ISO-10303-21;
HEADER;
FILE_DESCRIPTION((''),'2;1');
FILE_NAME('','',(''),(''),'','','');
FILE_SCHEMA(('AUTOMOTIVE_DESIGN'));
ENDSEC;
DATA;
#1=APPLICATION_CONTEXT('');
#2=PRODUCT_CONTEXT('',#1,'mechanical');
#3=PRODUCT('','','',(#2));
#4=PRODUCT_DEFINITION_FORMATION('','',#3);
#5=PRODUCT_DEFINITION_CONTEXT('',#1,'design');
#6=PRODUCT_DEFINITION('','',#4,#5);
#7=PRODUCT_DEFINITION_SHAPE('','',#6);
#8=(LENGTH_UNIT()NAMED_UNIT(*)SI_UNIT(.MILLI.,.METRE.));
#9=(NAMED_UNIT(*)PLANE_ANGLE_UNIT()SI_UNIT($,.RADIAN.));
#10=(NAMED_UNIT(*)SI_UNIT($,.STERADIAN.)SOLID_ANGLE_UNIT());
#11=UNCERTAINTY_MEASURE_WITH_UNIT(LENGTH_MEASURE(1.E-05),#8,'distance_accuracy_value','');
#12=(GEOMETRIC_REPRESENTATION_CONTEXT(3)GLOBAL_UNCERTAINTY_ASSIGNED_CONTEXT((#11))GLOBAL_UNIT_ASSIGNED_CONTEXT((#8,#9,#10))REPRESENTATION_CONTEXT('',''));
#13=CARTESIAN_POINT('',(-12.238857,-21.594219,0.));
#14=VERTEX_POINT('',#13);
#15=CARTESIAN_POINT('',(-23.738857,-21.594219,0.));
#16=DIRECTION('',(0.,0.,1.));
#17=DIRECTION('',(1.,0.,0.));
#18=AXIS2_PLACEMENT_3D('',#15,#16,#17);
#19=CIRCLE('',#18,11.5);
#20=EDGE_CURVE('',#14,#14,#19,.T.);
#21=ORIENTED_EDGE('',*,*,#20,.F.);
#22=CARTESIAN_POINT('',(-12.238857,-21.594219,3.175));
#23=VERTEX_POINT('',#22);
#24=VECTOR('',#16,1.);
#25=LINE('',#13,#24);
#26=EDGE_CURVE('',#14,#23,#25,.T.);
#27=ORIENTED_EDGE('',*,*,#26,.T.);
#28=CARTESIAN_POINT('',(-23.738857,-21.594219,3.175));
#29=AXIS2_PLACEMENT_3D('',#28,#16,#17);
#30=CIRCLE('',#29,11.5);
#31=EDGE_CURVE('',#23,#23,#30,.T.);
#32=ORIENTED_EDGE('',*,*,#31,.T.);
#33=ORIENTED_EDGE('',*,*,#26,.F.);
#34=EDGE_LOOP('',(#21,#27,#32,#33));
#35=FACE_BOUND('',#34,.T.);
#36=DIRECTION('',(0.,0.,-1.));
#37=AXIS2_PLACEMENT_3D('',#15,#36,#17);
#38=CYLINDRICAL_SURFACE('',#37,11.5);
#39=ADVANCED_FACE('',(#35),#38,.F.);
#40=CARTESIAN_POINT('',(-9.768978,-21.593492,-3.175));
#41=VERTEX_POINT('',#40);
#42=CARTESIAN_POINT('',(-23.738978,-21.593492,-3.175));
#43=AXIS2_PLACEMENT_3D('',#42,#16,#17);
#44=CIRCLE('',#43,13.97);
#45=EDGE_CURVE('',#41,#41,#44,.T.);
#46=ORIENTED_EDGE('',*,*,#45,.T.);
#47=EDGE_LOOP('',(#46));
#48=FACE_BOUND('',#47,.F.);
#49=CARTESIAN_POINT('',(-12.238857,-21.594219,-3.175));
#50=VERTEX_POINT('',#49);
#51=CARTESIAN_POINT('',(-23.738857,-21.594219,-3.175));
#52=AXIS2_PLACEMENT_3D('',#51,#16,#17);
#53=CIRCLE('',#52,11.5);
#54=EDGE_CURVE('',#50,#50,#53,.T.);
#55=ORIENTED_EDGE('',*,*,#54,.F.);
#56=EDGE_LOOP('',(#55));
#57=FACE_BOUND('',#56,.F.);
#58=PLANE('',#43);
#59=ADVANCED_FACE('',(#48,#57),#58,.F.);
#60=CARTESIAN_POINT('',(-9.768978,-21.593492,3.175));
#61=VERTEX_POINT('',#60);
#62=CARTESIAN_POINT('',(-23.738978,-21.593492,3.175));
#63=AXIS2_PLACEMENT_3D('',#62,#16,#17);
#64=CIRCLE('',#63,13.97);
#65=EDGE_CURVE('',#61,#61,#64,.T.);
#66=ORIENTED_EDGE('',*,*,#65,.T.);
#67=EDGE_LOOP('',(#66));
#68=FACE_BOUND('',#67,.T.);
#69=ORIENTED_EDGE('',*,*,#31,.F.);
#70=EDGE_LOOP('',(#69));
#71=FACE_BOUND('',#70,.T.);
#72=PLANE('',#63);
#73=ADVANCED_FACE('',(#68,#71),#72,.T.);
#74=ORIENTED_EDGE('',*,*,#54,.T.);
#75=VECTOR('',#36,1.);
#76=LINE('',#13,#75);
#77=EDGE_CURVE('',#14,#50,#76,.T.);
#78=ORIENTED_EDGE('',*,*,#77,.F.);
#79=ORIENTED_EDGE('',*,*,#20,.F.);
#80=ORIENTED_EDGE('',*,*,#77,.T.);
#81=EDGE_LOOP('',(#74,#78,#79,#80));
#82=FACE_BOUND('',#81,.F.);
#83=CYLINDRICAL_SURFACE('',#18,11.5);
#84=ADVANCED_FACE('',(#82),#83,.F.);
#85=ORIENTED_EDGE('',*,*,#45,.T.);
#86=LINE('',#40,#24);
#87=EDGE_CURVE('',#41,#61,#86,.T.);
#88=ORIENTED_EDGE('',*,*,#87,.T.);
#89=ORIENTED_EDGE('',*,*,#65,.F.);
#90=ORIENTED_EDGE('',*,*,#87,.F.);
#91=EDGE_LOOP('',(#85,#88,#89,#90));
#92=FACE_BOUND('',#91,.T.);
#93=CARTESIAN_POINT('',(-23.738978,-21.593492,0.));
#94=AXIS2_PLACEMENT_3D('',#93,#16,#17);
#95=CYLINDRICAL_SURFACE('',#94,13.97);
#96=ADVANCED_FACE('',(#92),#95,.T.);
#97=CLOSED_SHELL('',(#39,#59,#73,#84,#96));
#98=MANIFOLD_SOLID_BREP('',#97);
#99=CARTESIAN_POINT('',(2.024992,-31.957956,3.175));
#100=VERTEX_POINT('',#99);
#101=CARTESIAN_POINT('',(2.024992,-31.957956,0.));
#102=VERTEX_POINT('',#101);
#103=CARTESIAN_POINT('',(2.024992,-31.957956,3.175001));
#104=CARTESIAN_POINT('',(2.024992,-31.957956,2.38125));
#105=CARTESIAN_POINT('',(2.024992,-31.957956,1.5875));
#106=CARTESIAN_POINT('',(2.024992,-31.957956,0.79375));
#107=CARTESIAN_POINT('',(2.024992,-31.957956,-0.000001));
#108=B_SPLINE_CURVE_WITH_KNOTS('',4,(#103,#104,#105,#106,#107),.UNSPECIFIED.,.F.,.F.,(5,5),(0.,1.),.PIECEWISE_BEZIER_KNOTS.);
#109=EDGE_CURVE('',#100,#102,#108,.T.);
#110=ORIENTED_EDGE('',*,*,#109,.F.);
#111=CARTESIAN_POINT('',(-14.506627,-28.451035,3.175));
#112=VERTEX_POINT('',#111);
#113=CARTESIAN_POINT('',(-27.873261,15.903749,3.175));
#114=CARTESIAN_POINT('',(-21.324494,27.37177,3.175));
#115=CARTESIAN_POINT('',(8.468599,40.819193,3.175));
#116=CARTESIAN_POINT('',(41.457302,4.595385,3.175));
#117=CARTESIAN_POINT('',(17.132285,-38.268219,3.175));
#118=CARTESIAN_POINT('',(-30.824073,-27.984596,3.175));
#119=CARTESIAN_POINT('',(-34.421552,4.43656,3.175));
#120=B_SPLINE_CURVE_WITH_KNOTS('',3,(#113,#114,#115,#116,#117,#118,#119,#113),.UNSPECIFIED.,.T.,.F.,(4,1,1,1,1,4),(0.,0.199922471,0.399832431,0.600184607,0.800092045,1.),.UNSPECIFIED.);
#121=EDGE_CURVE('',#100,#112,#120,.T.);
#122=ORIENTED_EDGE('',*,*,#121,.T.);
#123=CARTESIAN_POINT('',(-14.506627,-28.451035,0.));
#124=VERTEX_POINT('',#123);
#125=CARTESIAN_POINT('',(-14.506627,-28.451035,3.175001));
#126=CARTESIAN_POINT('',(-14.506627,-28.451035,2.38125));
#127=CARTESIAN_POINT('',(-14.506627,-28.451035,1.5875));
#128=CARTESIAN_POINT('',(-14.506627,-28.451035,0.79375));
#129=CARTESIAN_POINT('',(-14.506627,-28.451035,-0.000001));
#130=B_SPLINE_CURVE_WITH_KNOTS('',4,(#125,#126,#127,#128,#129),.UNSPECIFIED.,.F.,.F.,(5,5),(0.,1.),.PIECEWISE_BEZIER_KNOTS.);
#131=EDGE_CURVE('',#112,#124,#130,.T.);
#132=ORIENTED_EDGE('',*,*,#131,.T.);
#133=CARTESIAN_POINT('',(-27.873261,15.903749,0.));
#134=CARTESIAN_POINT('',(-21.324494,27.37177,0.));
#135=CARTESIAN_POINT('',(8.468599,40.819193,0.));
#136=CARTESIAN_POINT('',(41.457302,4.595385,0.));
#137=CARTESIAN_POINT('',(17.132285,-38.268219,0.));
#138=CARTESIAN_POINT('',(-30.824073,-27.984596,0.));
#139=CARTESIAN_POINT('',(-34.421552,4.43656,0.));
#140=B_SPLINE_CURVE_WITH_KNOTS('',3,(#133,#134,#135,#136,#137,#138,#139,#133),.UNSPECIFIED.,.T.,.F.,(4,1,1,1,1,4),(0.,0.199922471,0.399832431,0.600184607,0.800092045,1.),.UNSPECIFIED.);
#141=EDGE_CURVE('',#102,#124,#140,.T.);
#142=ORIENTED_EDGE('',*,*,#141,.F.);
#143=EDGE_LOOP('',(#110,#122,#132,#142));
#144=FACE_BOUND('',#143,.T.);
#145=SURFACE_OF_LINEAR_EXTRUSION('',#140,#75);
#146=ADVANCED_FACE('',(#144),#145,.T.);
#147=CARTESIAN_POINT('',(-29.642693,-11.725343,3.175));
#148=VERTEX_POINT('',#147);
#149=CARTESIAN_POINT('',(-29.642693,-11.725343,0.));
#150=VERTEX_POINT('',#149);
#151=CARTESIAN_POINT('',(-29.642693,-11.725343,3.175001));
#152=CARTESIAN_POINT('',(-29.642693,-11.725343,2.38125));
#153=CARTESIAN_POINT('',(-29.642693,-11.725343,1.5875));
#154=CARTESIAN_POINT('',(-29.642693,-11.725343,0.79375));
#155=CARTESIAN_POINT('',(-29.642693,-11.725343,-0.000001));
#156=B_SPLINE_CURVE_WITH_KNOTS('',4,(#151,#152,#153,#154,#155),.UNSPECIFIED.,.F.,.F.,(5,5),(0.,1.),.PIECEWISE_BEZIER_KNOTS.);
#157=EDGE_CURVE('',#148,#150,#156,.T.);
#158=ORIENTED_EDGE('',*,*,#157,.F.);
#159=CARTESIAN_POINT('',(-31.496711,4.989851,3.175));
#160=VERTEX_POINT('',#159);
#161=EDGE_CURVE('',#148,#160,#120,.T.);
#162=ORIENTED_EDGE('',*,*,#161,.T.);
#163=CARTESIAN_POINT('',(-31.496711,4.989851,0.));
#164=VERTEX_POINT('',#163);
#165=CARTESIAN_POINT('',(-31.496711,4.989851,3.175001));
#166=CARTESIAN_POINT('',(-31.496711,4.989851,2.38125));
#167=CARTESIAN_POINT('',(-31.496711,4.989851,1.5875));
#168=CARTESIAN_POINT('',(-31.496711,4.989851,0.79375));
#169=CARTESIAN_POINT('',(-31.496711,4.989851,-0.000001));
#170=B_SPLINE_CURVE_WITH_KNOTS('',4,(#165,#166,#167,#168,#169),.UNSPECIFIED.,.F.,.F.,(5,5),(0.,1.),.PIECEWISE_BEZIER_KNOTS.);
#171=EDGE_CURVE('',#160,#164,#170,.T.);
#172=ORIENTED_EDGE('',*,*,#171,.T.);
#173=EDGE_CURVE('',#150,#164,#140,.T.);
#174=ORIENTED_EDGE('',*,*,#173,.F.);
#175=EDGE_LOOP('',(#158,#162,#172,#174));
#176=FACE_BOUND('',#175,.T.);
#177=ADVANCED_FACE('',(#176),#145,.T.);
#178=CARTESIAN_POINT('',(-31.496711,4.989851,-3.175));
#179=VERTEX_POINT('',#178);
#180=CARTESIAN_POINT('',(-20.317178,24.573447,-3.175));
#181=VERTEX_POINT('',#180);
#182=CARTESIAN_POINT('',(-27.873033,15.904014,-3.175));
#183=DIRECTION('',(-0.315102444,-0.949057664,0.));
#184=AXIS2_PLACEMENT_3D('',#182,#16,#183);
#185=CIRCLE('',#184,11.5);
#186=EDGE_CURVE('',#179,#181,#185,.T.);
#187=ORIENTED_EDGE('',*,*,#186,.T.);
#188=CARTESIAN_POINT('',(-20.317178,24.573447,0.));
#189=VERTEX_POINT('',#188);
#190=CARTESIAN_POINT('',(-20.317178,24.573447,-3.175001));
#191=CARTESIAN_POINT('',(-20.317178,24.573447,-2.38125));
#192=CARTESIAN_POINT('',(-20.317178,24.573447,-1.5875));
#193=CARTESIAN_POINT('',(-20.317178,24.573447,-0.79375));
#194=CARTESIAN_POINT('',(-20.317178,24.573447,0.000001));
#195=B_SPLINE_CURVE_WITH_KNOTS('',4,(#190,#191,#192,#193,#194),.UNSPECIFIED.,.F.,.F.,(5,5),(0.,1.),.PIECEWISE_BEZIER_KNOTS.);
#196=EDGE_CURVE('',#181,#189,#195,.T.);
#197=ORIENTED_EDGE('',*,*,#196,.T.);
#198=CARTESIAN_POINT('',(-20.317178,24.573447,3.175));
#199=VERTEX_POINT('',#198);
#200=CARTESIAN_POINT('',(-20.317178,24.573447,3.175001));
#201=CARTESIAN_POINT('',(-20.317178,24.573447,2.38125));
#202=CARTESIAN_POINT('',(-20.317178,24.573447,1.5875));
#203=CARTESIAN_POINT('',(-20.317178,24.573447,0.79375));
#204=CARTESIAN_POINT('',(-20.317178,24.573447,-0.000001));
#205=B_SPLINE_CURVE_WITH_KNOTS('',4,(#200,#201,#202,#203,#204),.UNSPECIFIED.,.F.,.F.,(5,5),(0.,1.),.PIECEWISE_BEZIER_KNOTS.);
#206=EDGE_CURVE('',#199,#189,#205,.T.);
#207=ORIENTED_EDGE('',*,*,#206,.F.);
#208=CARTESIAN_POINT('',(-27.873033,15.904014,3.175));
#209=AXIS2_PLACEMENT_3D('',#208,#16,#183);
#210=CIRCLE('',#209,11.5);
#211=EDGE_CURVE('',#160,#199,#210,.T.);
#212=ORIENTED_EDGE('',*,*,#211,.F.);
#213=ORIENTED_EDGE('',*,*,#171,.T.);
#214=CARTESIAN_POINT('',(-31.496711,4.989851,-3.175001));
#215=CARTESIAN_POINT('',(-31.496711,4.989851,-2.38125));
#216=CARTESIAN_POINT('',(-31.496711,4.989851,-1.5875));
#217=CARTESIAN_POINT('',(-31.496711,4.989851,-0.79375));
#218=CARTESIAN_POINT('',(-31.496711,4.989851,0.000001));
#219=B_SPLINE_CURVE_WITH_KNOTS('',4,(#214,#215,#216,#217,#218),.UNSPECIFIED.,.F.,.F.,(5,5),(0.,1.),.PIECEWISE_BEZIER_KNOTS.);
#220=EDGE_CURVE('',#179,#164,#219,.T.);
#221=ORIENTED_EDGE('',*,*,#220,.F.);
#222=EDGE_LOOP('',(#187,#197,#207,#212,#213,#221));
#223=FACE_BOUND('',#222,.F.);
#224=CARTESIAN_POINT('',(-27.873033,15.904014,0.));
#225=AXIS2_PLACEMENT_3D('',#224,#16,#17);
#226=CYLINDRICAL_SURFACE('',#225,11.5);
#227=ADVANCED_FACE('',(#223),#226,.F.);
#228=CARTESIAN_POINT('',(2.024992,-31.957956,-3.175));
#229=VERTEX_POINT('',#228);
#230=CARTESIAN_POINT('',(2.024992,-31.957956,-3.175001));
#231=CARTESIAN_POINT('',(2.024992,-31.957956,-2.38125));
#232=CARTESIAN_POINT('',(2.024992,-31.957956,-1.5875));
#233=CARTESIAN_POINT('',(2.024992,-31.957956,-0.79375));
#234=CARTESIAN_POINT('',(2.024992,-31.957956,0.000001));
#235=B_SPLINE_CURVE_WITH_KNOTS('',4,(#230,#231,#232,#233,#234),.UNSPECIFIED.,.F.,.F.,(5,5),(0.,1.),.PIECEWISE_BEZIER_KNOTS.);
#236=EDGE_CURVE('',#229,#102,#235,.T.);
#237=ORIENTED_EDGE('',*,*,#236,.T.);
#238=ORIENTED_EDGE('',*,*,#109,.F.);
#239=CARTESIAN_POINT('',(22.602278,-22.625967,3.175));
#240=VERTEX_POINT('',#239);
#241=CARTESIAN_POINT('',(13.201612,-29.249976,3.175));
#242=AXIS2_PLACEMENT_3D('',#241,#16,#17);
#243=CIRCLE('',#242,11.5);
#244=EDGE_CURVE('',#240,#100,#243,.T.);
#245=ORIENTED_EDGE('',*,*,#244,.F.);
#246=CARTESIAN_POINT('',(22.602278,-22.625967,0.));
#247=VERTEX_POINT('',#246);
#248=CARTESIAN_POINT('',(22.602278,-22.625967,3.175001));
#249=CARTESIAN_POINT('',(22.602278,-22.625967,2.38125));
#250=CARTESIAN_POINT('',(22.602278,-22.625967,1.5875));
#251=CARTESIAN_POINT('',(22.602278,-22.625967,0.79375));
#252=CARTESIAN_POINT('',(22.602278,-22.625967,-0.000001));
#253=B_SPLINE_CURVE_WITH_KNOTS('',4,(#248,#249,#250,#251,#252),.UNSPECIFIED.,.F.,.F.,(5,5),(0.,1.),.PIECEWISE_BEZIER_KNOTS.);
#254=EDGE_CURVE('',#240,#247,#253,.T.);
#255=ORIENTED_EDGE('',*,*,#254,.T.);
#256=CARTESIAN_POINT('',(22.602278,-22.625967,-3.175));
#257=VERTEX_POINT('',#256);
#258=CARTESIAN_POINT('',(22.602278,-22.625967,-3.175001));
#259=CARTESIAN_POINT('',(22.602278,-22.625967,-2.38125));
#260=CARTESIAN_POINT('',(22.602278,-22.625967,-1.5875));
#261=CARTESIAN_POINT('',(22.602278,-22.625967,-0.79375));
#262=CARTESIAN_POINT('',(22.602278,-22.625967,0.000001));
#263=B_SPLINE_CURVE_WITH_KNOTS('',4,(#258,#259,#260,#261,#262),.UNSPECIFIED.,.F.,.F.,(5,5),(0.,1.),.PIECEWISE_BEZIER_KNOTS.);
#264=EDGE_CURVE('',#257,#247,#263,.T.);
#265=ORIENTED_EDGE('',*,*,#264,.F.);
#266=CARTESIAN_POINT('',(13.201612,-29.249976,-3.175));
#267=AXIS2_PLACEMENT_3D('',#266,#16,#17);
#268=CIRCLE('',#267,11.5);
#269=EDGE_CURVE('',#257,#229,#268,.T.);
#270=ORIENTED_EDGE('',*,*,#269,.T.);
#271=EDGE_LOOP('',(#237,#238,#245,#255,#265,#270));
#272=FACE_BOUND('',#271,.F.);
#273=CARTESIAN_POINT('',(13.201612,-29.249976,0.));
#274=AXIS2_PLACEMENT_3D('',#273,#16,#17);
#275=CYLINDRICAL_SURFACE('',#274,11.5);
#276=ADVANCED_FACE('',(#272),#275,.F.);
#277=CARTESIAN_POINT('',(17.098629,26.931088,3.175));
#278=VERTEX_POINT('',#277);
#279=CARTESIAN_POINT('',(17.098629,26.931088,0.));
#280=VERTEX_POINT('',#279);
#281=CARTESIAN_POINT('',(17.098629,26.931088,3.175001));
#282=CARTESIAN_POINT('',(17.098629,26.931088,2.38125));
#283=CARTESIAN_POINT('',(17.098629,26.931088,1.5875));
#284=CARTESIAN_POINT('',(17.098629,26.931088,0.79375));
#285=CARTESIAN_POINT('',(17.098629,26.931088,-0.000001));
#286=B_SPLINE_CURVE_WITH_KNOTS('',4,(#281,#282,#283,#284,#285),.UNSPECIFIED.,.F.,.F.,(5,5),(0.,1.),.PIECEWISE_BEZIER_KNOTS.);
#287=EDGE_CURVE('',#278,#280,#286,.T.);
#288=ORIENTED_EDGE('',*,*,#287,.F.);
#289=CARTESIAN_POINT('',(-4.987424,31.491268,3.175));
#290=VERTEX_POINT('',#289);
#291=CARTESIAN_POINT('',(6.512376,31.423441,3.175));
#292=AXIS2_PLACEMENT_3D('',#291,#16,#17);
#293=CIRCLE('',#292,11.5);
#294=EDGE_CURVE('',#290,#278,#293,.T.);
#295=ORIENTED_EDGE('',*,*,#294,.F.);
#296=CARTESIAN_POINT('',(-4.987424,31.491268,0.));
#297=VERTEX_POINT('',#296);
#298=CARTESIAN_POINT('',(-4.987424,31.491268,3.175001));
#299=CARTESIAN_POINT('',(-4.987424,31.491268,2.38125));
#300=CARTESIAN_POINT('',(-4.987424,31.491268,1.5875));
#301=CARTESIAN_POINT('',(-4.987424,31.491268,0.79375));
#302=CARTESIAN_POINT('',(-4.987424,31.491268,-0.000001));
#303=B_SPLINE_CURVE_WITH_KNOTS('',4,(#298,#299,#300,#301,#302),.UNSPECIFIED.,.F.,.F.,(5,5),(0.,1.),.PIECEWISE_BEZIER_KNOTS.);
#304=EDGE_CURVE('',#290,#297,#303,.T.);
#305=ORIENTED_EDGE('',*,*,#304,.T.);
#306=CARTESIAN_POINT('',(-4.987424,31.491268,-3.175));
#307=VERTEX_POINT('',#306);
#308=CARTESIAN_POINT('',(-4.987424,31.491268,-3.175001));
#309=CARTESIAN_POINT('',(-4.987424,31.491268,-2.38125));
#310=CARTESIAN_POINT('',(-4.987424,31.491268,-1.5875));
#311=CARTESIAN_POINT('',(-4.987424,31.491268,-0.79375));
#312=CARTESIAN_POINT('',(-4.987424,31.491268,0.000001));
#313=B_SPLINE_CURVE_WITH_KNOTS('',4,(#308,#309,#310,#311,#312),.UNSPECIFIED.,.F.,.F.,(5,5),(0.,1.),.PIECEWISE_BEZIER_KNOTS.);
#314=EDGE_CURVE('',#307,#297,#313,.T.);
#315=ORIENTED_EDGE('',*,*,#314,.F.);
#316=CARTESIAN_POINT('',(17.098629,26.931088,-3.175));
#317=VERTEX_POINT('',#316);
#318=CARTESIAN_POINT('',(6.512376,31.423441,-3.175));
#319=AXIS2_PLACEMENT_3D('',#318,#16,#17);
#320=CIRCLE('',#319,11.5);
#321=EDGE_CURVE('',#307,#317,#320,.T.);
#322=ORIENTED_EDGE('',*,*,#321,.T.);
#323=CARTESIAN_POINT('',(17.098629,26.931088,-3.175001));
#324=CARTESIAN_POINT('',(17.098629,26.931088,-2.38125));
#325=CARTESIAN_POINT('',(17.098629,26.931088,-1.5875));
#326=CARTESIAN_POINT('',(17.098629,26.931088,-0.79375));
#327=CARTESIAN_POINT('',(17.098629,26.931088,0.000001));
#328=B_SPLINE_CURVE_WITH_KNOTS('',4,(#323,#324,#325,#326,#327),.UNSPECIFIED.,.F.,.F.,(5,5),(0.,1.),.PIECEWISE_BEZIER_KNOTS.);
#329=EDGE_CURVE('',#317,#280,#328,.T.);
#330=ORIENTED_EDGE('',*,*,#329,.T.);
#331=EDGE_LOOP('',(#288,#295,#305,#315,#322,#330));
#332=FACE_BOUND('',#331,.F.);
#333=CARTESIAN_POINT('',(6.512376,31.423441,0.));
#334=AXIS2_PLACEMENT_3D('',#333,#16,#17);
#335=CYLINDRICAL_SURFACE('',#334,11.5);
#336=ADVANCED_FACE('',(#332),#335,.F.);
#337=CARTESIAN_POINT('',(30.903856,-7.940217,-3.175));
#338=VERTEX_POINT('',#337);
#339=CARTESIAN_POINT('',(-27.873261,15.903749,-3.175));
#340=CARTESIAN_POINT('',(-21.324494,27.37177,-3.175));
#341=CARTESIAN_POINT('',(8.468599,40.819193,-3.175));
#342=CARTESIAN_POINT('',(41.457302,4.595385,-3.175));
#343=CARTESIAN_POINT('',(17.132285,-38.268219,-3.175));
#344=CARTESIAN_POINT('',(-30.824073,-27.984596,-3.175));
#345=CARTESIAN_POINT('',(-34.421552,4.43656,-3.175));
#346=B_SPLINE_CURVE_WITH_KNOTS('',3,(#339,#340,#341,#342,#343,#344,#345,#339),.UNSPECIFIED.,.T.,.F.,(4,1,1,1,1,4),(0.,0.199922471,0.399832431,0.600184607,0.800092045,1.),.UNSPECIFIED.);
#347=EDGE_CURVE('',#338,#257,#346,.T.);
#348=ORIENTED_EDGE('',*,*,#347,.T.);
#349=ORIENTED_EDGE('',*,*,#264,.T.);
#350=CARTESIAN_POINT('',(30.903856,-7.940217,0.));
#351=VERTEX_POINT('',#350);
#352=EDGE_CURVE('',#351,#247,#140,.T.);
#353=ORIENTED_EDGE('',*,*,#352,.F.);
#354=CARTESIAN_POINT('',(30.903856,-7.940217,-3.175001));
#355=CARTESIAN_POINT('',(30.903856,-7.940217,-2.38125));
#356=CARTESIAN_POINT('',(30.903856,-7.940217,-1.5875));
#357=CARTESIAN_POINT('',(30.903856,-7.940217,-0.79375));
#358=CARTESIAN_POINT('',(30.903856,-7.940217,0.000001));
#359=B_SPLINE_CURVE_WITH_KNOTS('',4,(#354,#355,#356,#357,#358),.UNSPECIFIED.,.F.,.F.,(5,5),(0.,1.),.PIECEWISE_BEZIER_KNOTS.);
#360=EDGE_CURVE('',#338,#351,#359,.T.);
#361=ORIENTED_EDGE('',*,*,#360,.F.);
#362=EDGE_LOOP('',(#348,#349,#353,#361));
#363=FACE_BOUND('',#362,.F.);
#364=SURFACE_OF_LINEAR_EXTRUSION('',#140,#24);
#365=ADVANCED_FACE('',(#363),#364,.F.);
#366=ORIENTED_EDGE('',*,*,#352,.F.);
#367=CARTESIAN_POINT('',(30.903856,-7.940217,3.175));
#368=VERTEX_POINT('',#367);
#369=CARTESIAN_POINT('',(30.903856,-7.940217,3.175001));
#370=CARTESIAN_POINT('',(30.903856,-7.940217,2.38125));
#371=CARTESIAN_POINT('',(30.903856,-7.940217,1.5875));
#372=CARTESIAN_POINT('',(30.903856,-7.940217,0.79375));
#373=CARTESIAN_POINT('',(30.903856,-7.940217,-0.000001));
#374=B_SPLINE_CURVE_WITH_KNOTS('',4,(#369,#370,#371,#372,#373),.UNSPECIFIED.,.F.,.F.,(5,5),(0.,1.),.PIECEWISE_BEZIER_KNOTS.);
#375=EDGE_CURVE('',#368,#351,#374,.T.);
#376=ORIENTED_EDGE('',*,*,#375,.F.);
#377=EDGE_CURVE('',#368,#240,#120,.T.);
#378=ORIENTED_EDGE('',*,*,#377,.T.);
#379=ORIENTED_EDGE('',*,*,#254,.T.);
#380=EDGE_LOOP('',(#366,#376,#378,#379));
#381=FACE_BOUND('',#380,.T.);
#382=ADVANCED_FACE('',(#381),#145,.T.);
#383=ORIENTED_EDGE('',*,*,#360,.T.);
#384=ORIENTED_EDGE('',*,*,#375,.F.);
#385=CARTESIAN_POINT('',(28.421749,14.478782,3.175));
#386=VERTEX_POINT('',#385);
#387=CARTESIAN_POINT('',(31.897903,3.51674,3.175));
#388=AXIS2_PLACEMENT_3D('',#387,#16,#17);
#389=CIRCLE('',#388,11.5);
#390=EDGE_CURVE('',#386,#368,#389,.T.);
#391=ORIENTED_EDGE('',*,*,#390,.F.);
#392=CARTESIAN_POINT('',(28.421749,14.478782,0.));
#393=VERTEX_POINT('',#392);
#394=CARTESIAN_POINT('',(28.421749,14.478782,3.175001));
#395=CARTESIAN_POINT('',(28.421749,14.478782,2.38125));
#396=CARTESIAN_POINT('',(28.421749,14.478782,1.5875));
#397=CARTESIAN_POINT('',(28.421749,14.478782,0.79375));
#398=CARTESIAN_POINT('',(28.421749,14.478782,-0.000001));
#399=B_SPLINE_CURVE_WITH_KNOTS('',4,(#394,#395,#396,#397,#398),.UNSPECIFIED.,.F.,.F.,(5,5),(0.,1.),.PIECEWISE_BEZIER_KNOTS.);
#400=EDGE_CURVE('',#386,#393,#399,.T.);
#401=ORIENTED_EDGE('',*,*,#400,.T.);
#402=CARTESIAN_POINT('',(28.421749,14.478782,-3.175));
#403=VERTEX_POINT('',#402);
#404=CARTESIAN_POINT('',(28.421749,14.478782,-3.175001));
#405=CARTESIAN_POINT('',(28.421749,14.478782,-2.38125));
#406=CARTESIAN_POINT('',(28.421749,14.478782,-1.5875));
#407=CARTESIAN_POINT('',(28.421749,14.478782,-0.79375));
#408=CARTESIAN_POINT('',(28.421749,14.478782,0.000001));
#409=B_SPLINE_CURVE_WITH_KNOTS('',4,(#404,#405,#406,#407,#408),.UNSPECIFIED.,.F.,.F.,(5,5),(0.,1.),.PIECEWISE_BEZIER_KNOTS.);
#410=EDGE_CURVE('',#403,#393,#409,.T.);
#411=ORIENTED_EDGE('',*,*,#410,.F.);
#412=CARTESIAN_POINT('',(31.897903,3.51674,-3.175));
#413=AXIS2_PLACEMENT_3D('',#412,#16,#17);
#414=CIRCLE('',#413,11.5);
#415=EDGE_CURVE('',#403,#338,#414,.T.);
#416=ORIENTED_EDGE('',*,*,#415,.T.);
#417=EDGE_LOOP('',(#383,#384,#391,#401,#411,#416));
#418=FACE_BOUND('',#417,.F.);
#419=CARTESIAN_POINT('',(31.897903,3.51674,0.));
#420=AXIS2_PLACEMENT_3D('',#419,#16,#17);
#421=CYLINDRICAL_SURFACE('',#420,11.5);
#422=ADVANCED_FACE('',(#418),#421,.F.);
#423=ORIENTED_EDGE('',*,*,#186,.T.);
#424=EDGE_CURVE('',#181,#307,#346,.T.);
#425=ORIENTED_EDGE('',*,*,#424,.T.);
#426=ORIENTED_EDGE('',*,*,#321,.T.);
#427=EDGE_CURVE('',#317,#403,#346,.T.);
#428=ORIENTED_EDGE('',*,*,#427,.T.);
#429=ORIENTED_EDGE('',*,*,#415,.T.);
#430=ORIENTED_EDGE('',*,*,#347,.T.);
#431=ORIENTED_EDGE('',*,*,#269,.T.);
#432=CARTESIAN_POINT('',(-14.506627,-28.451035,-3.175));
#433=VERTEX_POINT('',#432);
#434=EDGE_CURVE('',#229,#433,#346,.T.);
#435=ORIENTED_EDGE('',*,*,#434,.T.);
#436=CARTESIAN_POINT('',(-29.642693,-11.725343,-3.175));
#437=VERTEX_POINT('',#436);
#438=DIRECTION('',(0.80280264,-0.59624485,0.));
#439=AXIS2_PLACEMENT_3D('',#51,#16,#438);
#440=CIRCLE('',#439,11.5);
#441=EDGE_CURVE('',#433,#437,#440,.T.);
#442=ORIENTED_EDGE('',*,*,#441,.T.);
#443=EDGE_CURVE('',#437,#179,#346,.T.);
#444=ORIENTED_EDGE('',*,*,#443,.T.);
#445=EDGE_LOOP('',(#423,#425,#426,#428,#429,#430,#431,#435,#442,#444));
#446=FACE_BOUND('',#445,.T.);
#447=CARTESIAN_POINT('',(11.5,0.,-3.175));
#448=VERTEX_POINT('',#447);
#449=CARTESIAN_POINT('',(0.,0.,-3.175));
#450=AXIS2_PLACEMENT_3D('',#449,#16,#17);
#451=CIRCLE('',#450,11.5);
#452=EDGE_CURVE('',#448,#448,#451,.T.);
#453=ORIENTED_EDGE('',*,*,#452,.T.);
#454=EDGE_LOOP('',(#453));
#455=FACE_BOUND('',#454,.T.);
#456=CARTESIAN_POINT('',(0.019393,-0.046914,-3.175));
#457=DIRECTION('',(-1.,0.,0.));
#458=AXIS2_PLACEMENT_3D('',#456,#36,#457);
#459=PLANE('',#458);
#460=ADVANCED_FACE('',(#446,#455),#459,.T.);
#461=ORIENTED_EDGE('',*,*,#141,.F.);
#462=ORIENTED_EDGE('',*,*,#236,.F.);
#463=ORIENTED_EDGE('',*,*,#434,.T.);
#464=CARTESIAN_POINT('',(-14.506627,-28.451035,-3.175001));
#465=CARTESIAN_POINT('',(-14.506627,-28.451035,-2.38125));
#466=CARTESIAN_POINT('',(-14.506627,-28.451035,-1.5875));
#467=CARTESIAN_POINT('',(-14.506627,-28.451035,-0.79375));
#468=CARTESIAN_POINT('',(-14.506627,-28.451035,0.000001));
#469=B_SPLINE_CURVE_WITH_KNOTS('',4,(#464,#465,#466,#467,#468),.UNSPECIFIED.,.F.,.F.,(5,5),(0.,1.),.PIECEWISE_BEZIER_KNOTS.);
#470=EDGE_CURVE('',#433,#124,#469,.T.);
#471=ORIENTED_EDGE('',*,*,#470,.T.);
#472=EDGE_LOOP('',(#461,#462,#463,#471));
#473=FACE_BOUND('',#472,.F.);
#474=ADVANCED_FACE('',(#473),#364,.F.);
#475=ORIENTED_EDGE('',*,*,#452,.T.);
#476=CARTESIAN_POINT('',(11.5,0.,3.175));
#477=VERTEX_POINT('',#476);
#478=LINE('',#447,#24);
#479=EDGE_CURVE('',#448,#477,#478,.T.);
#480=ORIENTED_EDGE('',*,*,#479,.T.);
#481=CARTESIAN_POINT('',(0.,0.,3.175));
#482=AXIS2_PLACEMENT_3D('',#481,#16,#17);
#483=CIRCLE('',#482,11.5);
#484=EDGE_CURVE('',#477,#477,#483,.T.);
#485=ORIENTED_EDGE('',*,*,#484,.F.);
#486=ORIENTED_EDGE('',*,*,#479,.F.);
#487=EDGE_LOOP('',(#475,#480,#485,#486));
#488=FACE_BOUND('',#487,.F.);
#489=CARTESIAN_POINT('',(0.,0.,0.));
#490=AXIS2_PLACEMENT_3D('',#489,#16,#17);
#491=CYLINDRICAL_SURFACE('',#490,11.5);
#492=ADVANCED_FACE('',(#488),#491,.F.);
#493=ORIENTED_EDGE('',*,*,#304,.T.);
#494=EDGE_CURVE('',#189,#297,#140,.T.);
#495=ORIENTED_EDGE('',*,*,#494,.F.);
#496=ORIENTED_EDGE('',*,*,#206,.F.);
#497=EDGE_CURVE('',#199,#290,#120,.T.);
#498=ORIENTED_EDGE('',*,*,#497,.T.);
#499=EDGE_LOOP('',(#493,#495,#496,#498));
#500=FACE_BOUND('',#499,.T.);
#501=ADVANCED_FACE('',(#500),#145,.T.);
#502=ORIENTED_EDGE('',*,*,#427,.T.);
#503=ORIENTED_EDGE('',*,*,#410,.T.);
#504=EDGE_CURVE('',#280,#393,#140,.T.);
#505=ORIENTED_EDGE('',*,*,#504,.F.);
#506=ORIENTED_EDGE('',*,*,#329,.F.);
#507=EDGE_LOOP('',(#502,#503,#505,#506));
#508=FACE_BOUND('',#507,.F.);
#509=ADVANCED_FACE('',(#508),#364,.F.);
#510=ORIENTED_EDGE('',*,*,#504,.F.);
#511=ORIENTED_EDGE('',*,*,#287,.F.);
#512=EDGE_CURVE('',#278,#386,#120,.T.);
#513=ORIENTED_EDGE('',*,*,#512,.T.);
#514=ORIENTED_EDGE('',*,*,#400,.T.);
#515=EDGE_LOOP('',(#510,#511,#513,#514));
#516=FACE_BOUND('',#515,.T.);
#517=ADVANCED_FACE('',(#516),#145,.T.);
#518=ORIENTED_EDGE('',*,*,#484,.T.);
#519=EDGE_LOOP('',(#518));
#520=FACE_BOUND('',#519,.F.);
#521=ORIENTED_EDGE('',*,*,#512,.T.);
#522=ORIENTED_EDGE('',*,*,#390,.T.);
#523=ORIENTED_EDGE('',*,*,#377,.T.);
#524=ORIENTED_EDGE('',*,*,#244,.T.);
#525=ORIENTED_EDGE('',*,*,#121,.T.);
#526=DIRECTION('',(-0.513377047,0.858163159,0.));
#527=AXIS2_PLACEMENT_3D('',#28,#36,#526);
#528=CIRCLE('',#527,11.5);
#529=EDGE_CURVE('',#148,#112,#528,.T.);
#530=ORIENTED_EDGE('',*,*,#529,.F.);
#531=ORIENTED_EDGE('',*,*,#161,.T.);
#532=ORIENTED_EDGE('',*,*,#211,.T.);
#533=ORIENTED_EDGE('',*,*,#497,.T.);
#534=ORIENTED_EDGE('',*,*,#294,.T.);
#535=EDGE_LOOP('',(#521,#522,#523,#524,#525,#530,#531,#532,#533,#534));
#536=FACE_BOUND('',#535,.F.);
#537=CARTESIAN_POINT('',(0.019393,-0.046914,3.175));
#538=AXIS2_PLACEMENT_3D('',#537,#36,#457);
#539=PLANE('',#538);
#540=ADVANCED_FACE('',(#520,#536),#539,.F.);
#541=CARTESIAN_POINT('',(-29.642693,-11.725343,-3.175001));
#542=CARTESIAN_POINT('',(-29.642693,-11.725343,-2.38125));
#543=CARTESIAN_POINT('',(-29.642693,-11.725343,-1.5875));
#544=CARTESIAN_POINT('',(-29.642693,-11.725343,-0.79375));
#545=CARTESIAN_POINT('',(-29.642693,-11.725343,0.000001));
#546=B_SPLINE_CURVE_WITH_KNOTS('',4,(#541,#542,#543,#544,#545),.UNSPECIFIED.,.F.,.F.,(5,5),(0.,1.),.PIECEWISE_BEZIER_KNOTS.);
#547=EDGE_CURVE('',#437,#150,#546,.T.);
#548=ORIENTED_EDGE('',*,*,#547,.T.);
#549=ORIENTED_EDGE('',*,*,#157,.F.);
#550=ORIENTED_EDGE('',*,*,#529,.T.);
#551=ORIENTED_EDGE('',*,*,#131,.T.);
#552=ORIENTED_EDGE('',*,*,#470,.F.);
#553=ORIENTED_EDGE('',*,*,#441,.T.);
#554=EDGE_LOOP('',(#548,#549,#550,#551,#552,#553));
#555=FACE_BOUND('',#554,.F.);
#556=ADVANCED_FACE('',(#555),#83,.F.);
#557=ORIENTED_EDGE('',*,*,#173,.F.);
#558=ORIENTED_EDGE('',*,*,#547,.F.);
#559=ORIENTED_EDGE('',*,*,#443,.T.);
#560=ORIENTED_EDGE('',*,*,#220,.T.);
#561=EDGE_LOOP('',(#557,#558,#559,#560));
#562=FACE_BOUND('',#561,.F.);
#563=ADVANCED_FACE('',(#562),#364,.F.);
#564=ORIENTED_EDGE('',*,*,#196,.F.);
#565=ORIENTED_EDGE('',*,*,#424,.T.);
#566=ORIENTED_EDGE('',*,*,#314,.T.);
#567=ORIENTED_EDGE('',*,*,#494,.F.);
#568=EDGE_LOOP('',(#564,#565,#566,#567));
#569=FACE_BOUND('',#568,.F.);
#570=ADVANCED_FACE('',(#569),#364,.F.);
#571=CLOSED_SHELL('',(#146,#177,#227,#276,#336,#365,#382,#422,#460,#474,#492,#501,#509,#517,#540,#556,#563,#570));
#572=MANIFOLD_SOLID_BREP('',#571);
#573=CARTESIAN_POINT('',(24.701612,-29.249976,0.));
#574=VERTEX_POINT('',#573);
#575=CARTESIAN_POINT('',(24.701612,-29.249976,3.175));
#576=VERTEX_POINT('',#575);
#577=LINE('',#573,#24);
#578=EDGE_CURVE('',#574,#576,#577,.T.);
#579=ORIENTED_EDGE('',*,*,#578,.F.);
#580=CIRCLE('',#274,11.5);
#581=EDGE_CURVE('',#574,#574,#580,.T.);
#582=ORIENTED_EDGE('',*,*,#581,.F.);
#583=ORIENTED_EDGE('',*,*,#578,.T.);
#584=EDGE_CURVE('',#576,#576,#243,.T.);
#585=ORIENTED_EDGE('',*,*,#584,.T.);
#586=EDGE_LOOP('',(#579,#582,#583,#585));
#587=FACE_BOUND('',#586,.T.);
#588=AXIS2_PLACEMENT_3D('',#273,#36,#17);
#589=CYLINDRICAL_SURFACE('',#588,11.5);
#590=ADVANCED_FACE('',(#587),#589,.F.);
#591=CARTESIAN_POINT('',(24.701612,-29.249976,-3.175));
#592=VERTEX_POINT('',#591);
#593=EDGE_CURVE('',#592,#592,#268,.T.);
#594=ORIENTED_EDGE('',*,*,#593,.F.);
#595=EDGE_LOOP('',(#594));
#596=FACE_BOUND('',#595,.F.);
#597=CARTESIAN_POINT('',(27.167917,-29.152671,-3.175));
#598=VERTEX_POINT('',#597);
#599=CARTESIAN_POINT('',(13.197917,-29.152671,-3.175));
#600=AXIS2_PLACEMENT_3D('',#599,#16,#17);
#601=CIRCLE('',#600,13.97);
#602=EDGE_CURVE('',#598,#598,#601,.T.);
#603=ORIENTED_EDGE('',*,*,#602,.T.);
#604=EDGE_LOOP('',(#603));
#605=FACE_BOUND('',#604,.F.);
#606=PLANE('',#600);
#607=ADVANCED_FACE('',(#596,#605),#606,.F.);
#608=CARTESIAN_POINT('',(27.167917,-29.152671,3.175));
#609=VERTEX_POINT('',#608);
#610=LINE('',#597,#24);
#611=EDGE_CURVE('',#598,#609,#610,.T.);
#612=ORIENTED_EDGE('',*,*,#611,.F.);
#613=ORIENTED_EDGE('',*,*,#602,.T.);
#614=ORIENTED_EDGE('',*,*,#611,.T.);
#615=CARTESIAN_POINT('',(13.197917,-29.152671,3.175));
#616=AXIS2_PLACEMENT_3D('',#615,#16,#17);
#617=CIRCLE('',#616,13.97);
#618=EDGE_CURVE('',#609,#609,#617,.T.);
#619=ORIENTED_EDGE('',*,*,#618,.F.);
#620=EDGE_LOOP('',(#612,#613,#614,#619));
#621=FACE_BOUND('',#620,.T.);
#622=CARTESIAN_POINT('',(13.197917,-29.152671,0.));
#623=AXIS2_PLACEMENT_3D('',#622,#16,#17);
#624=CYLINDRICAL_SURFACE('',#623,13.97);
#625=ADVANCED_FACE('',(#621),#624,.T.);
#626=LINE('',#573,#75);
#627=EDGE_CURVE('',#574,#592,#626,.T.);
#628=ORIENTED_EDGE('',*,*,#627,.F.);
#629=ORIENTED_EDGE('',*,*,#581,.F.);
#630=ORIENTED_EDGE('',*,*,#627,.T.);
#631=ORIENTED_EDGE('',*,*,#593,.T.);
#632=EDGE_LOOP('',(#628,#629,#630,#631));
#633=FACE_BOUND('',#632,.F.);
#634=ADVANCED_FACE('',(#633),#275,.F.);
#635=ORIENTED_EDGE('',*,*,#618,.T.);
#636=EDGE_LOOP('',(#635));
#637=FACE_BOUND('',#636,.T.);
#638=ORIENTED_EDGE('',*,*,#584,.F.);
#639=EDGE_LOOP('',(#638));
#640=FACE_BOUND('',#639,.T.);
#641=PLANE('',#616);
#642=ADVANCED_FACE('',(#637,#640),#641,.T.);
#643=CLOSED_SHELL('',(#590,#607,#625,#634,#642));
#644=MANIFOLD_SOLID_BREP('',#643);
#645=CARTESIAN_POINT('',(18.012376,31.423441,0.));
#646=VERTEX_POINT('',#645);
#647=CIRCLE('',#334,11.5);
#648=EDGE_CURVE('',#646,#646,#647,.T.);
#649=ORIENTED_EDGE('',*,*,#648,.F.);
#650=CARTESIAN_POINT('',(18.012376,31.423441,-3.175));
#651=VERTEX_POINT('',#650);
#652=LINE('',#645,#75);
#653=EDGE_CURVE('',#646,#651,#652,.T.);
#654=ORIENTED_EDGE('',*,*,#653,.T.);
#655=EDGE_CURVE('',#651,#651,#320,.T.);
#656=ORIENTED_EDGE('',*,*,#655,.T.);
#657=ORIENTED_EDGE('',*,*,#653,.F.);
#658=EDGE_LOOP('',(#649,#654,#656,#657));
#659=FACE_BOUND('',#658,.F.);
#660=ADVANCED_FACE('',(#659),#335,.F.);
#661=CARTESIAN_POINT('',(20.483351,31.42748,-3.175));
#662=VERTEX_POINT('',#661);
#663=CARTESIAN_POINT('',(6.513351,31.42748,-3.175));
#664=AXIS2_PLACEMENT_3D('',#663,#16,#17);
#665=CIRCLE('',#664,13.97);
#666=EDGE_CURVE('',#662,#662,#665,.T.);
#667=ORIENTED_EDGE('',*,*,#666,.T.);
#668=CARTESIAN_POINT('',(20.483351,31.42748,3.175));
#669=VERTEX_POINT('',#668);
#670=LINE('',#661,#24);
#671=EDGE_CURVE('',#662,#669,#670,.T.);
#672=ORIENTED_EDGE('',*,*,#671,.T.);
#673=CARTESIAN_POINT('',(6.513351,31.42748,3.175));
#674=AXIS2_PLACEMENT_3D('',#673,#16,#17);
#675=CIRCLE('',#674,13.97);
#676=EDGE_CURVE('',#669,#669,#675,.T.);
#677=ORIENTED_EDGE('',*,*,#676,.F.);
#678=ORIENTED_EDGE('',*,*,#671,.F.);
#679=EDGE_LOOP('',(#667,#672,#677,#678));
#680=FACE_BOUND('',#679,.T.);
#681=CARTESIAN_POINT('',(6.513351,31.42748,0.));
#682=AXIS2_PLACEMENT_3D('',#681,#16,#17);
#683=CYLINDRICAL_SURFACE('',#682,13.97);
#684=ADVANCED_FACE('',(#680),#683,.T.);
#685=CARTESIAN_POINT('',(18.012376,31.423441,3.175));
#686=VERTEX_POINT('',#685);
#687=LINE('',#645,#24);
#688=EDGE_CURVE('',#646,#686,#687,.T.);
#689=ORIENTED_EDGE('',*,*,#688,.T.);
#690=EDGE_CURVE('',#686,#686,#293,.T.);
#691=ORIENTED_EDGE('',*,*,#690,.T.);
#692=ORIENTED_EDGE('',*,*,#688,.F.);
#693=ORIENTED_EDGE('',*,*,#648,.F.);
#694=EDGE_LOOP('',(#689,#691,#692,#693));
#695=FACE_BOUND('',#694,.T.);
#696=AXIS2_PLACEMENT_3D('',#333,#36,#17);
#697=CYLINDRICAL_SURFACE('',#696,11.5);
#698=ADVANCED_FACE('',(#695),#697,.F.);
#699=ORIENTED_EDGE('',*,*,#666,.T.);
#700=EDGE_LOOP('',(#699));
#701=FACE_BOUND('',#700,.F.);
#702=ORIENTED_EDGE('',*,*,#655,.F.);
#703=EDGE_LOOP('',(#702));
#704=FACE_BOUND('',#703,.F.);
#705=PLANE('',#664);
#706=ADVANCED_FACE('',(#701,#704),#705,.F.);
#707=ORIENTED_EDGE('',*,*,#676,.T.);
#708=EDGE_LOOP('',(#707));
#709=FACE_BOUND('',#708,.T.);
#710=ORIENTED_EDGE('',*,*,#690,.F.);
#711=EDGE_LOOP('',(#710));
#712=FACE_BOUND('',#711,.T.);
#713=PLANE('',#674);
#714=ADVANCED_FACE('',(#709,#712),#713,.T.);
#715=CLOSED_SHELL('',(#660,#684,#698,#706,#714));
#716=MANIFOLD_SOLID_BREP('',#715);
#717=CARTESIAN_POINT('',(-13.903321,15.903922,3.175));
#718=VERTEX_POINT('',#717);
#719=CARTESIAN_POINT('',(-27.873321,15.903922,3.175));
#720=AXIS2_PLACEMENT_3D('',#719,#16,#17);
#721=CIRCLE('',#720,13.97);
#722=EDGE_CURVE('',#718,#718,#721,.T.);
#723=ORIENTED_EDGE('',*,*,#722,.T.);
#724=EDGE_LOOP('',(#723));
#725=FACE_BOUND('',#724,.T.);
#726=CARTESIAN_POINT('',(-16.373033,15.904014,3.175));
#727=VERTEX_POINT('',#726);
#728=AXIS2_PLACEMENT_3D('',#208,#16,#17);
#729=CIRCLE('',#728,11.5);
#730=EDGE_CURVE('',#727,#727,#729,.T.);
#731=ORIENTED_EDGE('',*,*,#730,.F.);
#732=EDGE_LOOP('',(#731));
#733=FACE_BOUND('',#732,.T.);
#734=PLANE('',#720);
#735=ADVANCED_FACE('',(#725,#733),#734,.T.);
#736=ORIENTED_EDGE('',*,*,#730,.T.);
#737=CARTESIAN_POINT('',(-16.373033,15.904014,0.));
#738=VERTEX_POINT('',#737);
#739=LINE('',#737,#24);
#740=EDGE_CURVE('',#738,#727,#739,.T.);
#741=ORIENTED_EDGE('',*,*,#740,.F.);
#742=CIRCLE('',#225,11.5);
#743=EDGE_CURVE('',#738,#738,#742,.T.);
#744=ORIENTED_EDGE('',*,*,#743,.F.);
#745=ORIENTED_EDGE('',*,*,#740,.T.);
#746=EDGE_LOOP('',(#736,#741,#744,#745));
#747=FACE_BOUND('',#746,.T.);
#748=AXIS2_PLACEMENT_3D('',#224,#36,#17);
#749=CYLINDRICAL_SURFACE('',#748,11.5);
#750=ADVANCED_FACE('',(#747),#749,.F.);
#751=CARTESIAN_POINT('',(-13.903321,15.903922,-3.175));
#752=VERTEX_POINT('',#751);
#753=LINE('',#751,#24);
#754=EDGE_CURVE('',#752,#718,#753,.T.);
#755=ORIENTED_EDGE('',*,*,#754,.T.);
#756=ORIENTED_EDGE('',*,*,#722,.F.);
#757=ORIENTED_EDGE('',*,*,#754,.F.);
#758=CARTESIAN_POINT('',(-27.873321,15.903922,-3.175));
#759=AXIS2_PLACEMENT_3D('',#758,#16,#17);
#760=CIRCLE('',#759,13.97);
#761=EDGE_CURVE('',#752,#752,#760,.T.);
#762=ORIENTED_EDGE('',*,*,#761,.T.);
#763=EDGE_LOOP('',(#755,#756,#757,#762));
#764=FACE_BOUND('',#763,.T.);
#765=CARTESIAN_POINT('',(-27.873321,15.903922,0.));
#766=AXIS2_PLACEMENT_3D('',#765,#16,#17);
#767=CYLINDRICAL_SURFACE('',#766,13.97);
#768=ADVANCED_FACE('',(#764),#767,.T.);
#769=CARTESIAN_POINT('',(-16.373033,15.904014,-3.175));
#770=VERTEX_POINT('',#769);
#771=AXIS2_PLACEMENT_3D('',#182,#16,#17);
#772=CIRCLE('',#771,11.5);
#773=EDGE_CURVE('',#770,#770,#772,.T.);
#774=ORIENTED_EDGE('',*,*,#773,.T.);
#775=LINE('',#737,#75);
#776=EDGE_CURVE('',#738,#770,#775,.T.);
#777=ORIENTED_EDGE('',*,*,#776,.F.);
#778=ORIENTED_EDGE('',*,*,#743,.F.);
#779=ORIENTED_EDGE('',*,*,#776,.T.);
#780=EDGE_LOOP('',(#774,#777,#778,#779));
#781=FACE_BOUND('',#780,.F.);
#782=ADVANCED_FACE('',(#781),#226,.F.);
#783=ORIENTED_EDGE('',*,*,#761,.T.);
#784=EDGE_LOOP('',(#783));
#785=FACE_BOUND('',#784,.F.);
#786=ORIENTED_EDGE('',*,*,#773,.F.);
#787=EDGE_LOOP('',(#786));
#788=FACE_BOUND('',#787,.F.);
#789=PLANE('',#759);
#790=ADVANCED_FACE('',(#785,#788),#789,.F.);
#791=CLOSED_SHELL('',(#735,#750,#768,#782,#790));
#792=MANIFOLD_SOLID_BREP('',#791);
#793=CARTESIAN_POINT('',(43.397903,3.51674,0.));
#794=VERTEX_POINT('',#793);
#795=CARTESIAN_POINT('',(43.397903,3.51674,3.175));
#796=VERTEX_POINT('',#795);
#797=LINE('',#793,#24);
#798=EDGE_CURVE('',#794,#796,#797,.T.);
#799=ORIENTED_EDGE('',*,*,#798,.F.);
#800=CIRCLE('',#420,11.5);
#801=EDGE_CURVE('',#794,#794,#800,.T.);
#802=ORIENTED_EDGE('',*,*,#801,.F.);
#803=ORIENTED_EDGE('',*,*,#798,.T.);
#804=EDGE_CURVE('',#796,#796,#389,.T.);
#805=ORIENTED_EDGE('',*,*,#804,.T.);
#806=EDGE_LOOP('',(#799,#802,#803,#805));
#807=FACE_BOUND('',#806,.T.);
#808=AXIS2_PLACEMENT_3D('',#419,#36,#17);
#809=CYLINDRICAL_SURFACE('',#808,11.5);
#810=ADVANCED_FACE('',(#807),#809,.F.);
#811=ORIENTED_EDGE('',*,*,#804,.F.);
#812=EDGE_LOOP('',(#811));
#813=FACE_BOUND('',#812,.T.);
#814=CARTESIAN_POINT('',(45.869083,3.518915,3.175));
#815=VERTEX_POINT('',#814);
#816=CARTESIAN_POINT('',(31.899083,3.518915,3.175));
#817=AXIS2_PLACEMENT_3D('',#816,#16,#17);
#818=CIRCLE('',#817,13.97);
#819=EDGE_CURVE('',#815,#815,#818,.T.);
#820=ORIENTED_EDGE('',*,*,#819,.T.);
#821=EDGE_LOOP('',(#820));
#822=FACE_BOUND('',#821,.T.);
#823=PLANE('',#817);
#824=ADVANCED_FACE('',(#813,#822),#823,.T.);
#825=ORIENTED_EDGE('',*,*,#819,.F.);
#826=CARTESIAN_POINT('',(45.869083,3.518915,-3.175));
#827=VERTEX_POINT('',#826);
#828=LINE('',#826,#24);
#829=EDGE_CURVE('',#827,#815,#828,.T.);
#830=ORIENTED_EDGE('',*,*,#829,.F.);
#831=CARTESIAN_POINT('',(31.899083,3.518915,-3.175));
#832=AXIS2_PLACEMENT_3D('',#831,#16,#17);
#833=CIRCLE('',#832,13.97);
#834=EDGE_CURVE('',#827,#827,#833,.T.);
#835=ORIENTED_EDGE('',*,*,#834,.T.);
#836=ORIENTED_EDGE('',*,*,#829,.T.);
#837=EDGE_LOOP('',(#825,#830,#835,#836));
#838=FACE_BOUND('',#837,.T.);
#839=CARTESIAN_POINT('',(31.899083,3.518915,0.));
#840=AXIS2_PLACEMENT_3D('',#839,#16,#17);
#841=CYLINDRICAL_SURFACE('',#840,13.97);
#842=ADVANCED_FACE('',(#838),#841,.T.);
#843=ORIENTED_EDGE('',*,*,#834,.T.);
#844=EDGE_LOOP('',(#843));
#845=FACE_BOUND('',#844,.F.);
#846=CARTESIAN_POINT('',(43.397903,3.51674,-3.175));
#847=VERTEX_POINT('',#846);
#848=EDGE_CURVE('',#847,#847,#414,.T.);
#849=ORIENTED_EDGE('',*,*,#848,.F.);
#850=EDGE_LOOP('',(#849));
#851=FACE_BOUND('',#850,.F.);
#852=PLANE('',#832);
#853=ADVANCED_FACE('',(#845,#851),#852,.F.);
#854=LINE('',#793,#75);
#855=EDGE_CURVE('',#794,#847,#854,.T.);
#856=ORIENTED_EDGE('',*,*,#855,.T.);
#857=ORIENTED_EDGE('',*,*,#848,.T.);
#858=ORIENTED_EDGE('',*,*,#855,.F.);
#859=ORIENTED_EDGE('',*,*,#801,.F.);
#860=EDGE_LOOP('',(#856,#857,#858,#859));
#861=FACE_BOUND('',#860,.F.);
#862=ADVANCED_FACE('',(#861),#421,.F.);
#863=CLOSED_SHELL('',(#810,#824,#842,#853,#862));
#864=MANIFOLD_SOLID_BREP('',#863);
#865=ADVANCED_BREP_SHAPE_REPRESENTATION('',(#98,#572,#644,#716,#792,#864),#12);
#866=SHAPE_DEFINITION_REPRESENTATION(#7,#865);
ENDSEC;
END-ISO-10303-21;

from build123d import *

# Parameters (mm, degrees)
F3_DEPTH = 3.175
F2_R     = 13.97
F0_R     = 11.5
F4_DEPTH = 3.175


with BuildPart() as f3:
    # F1 (on Top) → F3 (new body, symmetric)
    with BuildSketch(Plane.XY):
        with BuildLine():
            add(Edge.make_bspline(
                [(-27.873260784, 15.9037485054), (-21.3244938042, 27.3717698023), (8.4685993161, 40.8191929902), (41.457301605, 4.5953850008), (17.1322852663, -38.2682187447), (-30.824072945, -27.9845963151), (-34.4215522774, 4.4365598673), (-27.873260784, 15.9037485054)],
                knots=[0, 0, 0, 0, 0.1999224711, 0.3998324305, 0.6001846065, 0.8000920447, 1, 1, 1, 1], degree=3))
        make_face()
    extrude(amount=F3_DEPTH, both=True)


with BuildPart() as f3b:
    # F2 (on Top) → F3, piece 2 (new body, symmetric)
    with BuildSketch(Plane.XY):
        with Locations((-23.7389784306, -21.5934924781)):
            Circle(F2_R)
    extrude(amount=F3_DEPTH, both=True)


with BuildPart() as f3c:
    # F2 (on Top) → F3, piece 3 (new body, symmetric)
    with BuildSketch(Plane.XY):
        with Locations((13.1979174912, -29.1526708752)):
            Circle(F2_R)
    extrude(amount=F3_DEPTH, both=True)


with BuildPart() as f3d:
    # F2 (on Top) → F3, piece 4 (new body, symmetric)
    with BuildSketch(Plane.XY):
        with Locations((-27.873320505, 15.9039217979)):
            Circle(F2_R)
    extrude(amount=F3_DEPTH, both=True)


with BuildPart() as f3e:
    # F2 (on Top) → F3, piece 5 (new body, symmetric)
    with BuildSketch(Plane.XY):
        with Locations((6.5133511089, 31.4274802804)):
            Circle(F2_R)
    extrude(amount=F3_DEPTH, both=True)


with BuildPart() as f3f:
    # F2 (on Top) → F3, piece 6 (new body, symmetric)
    with BuildSketch(Plane.XY):
        with Locations((31.8990834057, 3.5189150367)):
            Circle(F2_R)
    extrude(amount=F3_DEPTH, both=True)


with BuildPart() as f4_tool:
    # F0 (on Top) → F4 (new body, symmetric)
    with BuildSketch(Plane.XY):
        with Locations((6.5123755613, 31.4234405064)):
            Circle(F0_R)
        with Locations((31.8979025802, 3.5167399241)):
            Circle(F0_R)
        with Locations((13.2016124031, -29.2499757037)):
            Circle(F0_R)
        with Locations((-23.7388574088, -21.5942190791)):
            Circle(F0_R)
        with Locations((-27.8730331358, 15.9040143523)):
            Circle(F0_R)
        Circle(F0_R)
    extrude(amount=F4_DEPTH, both=True)


with BuildPart() as f3_1:
    add(f3.part)

    # F4: cut by f4_tool
    add(f4_tool.part, mode=Mode.SUBTRACT)


with BuildPart() as f3b_1:
    add(f3b.part)

    # F4: cut by f4_tool
    add(f4_tool.part, mode=Mode.SUBTRACT)


with BuildPart() as f3c_1:
    add(f3c.part)

    # F4: cut by f4_tool
    add(f4_tool.part, mode=Mode.SUBTRACT)


with BuildPart() as f3d_1:
    add(f3d.part)

    # F4: cut by f4_tool
    add(f4_tool.part, mode=Mode.SUBTRACT)


with BuildPart() as f3e_1:
    add(f3e.part)

    # F4: cut by f4_tool
    add(f4_tool.part, mode=Mode.SUBTRACT)


with BuildPart() as f3f_1:
    add(f3f.part)

    # F4: cut by f4_tool
    add(f4_tool.part, mode=Mode.SUBTRACT)


solid = Compound([f3_1.part, f3b_1.part, f3c_1.part, f3d_1.part, f3e_1.part, f3f_1.part])
